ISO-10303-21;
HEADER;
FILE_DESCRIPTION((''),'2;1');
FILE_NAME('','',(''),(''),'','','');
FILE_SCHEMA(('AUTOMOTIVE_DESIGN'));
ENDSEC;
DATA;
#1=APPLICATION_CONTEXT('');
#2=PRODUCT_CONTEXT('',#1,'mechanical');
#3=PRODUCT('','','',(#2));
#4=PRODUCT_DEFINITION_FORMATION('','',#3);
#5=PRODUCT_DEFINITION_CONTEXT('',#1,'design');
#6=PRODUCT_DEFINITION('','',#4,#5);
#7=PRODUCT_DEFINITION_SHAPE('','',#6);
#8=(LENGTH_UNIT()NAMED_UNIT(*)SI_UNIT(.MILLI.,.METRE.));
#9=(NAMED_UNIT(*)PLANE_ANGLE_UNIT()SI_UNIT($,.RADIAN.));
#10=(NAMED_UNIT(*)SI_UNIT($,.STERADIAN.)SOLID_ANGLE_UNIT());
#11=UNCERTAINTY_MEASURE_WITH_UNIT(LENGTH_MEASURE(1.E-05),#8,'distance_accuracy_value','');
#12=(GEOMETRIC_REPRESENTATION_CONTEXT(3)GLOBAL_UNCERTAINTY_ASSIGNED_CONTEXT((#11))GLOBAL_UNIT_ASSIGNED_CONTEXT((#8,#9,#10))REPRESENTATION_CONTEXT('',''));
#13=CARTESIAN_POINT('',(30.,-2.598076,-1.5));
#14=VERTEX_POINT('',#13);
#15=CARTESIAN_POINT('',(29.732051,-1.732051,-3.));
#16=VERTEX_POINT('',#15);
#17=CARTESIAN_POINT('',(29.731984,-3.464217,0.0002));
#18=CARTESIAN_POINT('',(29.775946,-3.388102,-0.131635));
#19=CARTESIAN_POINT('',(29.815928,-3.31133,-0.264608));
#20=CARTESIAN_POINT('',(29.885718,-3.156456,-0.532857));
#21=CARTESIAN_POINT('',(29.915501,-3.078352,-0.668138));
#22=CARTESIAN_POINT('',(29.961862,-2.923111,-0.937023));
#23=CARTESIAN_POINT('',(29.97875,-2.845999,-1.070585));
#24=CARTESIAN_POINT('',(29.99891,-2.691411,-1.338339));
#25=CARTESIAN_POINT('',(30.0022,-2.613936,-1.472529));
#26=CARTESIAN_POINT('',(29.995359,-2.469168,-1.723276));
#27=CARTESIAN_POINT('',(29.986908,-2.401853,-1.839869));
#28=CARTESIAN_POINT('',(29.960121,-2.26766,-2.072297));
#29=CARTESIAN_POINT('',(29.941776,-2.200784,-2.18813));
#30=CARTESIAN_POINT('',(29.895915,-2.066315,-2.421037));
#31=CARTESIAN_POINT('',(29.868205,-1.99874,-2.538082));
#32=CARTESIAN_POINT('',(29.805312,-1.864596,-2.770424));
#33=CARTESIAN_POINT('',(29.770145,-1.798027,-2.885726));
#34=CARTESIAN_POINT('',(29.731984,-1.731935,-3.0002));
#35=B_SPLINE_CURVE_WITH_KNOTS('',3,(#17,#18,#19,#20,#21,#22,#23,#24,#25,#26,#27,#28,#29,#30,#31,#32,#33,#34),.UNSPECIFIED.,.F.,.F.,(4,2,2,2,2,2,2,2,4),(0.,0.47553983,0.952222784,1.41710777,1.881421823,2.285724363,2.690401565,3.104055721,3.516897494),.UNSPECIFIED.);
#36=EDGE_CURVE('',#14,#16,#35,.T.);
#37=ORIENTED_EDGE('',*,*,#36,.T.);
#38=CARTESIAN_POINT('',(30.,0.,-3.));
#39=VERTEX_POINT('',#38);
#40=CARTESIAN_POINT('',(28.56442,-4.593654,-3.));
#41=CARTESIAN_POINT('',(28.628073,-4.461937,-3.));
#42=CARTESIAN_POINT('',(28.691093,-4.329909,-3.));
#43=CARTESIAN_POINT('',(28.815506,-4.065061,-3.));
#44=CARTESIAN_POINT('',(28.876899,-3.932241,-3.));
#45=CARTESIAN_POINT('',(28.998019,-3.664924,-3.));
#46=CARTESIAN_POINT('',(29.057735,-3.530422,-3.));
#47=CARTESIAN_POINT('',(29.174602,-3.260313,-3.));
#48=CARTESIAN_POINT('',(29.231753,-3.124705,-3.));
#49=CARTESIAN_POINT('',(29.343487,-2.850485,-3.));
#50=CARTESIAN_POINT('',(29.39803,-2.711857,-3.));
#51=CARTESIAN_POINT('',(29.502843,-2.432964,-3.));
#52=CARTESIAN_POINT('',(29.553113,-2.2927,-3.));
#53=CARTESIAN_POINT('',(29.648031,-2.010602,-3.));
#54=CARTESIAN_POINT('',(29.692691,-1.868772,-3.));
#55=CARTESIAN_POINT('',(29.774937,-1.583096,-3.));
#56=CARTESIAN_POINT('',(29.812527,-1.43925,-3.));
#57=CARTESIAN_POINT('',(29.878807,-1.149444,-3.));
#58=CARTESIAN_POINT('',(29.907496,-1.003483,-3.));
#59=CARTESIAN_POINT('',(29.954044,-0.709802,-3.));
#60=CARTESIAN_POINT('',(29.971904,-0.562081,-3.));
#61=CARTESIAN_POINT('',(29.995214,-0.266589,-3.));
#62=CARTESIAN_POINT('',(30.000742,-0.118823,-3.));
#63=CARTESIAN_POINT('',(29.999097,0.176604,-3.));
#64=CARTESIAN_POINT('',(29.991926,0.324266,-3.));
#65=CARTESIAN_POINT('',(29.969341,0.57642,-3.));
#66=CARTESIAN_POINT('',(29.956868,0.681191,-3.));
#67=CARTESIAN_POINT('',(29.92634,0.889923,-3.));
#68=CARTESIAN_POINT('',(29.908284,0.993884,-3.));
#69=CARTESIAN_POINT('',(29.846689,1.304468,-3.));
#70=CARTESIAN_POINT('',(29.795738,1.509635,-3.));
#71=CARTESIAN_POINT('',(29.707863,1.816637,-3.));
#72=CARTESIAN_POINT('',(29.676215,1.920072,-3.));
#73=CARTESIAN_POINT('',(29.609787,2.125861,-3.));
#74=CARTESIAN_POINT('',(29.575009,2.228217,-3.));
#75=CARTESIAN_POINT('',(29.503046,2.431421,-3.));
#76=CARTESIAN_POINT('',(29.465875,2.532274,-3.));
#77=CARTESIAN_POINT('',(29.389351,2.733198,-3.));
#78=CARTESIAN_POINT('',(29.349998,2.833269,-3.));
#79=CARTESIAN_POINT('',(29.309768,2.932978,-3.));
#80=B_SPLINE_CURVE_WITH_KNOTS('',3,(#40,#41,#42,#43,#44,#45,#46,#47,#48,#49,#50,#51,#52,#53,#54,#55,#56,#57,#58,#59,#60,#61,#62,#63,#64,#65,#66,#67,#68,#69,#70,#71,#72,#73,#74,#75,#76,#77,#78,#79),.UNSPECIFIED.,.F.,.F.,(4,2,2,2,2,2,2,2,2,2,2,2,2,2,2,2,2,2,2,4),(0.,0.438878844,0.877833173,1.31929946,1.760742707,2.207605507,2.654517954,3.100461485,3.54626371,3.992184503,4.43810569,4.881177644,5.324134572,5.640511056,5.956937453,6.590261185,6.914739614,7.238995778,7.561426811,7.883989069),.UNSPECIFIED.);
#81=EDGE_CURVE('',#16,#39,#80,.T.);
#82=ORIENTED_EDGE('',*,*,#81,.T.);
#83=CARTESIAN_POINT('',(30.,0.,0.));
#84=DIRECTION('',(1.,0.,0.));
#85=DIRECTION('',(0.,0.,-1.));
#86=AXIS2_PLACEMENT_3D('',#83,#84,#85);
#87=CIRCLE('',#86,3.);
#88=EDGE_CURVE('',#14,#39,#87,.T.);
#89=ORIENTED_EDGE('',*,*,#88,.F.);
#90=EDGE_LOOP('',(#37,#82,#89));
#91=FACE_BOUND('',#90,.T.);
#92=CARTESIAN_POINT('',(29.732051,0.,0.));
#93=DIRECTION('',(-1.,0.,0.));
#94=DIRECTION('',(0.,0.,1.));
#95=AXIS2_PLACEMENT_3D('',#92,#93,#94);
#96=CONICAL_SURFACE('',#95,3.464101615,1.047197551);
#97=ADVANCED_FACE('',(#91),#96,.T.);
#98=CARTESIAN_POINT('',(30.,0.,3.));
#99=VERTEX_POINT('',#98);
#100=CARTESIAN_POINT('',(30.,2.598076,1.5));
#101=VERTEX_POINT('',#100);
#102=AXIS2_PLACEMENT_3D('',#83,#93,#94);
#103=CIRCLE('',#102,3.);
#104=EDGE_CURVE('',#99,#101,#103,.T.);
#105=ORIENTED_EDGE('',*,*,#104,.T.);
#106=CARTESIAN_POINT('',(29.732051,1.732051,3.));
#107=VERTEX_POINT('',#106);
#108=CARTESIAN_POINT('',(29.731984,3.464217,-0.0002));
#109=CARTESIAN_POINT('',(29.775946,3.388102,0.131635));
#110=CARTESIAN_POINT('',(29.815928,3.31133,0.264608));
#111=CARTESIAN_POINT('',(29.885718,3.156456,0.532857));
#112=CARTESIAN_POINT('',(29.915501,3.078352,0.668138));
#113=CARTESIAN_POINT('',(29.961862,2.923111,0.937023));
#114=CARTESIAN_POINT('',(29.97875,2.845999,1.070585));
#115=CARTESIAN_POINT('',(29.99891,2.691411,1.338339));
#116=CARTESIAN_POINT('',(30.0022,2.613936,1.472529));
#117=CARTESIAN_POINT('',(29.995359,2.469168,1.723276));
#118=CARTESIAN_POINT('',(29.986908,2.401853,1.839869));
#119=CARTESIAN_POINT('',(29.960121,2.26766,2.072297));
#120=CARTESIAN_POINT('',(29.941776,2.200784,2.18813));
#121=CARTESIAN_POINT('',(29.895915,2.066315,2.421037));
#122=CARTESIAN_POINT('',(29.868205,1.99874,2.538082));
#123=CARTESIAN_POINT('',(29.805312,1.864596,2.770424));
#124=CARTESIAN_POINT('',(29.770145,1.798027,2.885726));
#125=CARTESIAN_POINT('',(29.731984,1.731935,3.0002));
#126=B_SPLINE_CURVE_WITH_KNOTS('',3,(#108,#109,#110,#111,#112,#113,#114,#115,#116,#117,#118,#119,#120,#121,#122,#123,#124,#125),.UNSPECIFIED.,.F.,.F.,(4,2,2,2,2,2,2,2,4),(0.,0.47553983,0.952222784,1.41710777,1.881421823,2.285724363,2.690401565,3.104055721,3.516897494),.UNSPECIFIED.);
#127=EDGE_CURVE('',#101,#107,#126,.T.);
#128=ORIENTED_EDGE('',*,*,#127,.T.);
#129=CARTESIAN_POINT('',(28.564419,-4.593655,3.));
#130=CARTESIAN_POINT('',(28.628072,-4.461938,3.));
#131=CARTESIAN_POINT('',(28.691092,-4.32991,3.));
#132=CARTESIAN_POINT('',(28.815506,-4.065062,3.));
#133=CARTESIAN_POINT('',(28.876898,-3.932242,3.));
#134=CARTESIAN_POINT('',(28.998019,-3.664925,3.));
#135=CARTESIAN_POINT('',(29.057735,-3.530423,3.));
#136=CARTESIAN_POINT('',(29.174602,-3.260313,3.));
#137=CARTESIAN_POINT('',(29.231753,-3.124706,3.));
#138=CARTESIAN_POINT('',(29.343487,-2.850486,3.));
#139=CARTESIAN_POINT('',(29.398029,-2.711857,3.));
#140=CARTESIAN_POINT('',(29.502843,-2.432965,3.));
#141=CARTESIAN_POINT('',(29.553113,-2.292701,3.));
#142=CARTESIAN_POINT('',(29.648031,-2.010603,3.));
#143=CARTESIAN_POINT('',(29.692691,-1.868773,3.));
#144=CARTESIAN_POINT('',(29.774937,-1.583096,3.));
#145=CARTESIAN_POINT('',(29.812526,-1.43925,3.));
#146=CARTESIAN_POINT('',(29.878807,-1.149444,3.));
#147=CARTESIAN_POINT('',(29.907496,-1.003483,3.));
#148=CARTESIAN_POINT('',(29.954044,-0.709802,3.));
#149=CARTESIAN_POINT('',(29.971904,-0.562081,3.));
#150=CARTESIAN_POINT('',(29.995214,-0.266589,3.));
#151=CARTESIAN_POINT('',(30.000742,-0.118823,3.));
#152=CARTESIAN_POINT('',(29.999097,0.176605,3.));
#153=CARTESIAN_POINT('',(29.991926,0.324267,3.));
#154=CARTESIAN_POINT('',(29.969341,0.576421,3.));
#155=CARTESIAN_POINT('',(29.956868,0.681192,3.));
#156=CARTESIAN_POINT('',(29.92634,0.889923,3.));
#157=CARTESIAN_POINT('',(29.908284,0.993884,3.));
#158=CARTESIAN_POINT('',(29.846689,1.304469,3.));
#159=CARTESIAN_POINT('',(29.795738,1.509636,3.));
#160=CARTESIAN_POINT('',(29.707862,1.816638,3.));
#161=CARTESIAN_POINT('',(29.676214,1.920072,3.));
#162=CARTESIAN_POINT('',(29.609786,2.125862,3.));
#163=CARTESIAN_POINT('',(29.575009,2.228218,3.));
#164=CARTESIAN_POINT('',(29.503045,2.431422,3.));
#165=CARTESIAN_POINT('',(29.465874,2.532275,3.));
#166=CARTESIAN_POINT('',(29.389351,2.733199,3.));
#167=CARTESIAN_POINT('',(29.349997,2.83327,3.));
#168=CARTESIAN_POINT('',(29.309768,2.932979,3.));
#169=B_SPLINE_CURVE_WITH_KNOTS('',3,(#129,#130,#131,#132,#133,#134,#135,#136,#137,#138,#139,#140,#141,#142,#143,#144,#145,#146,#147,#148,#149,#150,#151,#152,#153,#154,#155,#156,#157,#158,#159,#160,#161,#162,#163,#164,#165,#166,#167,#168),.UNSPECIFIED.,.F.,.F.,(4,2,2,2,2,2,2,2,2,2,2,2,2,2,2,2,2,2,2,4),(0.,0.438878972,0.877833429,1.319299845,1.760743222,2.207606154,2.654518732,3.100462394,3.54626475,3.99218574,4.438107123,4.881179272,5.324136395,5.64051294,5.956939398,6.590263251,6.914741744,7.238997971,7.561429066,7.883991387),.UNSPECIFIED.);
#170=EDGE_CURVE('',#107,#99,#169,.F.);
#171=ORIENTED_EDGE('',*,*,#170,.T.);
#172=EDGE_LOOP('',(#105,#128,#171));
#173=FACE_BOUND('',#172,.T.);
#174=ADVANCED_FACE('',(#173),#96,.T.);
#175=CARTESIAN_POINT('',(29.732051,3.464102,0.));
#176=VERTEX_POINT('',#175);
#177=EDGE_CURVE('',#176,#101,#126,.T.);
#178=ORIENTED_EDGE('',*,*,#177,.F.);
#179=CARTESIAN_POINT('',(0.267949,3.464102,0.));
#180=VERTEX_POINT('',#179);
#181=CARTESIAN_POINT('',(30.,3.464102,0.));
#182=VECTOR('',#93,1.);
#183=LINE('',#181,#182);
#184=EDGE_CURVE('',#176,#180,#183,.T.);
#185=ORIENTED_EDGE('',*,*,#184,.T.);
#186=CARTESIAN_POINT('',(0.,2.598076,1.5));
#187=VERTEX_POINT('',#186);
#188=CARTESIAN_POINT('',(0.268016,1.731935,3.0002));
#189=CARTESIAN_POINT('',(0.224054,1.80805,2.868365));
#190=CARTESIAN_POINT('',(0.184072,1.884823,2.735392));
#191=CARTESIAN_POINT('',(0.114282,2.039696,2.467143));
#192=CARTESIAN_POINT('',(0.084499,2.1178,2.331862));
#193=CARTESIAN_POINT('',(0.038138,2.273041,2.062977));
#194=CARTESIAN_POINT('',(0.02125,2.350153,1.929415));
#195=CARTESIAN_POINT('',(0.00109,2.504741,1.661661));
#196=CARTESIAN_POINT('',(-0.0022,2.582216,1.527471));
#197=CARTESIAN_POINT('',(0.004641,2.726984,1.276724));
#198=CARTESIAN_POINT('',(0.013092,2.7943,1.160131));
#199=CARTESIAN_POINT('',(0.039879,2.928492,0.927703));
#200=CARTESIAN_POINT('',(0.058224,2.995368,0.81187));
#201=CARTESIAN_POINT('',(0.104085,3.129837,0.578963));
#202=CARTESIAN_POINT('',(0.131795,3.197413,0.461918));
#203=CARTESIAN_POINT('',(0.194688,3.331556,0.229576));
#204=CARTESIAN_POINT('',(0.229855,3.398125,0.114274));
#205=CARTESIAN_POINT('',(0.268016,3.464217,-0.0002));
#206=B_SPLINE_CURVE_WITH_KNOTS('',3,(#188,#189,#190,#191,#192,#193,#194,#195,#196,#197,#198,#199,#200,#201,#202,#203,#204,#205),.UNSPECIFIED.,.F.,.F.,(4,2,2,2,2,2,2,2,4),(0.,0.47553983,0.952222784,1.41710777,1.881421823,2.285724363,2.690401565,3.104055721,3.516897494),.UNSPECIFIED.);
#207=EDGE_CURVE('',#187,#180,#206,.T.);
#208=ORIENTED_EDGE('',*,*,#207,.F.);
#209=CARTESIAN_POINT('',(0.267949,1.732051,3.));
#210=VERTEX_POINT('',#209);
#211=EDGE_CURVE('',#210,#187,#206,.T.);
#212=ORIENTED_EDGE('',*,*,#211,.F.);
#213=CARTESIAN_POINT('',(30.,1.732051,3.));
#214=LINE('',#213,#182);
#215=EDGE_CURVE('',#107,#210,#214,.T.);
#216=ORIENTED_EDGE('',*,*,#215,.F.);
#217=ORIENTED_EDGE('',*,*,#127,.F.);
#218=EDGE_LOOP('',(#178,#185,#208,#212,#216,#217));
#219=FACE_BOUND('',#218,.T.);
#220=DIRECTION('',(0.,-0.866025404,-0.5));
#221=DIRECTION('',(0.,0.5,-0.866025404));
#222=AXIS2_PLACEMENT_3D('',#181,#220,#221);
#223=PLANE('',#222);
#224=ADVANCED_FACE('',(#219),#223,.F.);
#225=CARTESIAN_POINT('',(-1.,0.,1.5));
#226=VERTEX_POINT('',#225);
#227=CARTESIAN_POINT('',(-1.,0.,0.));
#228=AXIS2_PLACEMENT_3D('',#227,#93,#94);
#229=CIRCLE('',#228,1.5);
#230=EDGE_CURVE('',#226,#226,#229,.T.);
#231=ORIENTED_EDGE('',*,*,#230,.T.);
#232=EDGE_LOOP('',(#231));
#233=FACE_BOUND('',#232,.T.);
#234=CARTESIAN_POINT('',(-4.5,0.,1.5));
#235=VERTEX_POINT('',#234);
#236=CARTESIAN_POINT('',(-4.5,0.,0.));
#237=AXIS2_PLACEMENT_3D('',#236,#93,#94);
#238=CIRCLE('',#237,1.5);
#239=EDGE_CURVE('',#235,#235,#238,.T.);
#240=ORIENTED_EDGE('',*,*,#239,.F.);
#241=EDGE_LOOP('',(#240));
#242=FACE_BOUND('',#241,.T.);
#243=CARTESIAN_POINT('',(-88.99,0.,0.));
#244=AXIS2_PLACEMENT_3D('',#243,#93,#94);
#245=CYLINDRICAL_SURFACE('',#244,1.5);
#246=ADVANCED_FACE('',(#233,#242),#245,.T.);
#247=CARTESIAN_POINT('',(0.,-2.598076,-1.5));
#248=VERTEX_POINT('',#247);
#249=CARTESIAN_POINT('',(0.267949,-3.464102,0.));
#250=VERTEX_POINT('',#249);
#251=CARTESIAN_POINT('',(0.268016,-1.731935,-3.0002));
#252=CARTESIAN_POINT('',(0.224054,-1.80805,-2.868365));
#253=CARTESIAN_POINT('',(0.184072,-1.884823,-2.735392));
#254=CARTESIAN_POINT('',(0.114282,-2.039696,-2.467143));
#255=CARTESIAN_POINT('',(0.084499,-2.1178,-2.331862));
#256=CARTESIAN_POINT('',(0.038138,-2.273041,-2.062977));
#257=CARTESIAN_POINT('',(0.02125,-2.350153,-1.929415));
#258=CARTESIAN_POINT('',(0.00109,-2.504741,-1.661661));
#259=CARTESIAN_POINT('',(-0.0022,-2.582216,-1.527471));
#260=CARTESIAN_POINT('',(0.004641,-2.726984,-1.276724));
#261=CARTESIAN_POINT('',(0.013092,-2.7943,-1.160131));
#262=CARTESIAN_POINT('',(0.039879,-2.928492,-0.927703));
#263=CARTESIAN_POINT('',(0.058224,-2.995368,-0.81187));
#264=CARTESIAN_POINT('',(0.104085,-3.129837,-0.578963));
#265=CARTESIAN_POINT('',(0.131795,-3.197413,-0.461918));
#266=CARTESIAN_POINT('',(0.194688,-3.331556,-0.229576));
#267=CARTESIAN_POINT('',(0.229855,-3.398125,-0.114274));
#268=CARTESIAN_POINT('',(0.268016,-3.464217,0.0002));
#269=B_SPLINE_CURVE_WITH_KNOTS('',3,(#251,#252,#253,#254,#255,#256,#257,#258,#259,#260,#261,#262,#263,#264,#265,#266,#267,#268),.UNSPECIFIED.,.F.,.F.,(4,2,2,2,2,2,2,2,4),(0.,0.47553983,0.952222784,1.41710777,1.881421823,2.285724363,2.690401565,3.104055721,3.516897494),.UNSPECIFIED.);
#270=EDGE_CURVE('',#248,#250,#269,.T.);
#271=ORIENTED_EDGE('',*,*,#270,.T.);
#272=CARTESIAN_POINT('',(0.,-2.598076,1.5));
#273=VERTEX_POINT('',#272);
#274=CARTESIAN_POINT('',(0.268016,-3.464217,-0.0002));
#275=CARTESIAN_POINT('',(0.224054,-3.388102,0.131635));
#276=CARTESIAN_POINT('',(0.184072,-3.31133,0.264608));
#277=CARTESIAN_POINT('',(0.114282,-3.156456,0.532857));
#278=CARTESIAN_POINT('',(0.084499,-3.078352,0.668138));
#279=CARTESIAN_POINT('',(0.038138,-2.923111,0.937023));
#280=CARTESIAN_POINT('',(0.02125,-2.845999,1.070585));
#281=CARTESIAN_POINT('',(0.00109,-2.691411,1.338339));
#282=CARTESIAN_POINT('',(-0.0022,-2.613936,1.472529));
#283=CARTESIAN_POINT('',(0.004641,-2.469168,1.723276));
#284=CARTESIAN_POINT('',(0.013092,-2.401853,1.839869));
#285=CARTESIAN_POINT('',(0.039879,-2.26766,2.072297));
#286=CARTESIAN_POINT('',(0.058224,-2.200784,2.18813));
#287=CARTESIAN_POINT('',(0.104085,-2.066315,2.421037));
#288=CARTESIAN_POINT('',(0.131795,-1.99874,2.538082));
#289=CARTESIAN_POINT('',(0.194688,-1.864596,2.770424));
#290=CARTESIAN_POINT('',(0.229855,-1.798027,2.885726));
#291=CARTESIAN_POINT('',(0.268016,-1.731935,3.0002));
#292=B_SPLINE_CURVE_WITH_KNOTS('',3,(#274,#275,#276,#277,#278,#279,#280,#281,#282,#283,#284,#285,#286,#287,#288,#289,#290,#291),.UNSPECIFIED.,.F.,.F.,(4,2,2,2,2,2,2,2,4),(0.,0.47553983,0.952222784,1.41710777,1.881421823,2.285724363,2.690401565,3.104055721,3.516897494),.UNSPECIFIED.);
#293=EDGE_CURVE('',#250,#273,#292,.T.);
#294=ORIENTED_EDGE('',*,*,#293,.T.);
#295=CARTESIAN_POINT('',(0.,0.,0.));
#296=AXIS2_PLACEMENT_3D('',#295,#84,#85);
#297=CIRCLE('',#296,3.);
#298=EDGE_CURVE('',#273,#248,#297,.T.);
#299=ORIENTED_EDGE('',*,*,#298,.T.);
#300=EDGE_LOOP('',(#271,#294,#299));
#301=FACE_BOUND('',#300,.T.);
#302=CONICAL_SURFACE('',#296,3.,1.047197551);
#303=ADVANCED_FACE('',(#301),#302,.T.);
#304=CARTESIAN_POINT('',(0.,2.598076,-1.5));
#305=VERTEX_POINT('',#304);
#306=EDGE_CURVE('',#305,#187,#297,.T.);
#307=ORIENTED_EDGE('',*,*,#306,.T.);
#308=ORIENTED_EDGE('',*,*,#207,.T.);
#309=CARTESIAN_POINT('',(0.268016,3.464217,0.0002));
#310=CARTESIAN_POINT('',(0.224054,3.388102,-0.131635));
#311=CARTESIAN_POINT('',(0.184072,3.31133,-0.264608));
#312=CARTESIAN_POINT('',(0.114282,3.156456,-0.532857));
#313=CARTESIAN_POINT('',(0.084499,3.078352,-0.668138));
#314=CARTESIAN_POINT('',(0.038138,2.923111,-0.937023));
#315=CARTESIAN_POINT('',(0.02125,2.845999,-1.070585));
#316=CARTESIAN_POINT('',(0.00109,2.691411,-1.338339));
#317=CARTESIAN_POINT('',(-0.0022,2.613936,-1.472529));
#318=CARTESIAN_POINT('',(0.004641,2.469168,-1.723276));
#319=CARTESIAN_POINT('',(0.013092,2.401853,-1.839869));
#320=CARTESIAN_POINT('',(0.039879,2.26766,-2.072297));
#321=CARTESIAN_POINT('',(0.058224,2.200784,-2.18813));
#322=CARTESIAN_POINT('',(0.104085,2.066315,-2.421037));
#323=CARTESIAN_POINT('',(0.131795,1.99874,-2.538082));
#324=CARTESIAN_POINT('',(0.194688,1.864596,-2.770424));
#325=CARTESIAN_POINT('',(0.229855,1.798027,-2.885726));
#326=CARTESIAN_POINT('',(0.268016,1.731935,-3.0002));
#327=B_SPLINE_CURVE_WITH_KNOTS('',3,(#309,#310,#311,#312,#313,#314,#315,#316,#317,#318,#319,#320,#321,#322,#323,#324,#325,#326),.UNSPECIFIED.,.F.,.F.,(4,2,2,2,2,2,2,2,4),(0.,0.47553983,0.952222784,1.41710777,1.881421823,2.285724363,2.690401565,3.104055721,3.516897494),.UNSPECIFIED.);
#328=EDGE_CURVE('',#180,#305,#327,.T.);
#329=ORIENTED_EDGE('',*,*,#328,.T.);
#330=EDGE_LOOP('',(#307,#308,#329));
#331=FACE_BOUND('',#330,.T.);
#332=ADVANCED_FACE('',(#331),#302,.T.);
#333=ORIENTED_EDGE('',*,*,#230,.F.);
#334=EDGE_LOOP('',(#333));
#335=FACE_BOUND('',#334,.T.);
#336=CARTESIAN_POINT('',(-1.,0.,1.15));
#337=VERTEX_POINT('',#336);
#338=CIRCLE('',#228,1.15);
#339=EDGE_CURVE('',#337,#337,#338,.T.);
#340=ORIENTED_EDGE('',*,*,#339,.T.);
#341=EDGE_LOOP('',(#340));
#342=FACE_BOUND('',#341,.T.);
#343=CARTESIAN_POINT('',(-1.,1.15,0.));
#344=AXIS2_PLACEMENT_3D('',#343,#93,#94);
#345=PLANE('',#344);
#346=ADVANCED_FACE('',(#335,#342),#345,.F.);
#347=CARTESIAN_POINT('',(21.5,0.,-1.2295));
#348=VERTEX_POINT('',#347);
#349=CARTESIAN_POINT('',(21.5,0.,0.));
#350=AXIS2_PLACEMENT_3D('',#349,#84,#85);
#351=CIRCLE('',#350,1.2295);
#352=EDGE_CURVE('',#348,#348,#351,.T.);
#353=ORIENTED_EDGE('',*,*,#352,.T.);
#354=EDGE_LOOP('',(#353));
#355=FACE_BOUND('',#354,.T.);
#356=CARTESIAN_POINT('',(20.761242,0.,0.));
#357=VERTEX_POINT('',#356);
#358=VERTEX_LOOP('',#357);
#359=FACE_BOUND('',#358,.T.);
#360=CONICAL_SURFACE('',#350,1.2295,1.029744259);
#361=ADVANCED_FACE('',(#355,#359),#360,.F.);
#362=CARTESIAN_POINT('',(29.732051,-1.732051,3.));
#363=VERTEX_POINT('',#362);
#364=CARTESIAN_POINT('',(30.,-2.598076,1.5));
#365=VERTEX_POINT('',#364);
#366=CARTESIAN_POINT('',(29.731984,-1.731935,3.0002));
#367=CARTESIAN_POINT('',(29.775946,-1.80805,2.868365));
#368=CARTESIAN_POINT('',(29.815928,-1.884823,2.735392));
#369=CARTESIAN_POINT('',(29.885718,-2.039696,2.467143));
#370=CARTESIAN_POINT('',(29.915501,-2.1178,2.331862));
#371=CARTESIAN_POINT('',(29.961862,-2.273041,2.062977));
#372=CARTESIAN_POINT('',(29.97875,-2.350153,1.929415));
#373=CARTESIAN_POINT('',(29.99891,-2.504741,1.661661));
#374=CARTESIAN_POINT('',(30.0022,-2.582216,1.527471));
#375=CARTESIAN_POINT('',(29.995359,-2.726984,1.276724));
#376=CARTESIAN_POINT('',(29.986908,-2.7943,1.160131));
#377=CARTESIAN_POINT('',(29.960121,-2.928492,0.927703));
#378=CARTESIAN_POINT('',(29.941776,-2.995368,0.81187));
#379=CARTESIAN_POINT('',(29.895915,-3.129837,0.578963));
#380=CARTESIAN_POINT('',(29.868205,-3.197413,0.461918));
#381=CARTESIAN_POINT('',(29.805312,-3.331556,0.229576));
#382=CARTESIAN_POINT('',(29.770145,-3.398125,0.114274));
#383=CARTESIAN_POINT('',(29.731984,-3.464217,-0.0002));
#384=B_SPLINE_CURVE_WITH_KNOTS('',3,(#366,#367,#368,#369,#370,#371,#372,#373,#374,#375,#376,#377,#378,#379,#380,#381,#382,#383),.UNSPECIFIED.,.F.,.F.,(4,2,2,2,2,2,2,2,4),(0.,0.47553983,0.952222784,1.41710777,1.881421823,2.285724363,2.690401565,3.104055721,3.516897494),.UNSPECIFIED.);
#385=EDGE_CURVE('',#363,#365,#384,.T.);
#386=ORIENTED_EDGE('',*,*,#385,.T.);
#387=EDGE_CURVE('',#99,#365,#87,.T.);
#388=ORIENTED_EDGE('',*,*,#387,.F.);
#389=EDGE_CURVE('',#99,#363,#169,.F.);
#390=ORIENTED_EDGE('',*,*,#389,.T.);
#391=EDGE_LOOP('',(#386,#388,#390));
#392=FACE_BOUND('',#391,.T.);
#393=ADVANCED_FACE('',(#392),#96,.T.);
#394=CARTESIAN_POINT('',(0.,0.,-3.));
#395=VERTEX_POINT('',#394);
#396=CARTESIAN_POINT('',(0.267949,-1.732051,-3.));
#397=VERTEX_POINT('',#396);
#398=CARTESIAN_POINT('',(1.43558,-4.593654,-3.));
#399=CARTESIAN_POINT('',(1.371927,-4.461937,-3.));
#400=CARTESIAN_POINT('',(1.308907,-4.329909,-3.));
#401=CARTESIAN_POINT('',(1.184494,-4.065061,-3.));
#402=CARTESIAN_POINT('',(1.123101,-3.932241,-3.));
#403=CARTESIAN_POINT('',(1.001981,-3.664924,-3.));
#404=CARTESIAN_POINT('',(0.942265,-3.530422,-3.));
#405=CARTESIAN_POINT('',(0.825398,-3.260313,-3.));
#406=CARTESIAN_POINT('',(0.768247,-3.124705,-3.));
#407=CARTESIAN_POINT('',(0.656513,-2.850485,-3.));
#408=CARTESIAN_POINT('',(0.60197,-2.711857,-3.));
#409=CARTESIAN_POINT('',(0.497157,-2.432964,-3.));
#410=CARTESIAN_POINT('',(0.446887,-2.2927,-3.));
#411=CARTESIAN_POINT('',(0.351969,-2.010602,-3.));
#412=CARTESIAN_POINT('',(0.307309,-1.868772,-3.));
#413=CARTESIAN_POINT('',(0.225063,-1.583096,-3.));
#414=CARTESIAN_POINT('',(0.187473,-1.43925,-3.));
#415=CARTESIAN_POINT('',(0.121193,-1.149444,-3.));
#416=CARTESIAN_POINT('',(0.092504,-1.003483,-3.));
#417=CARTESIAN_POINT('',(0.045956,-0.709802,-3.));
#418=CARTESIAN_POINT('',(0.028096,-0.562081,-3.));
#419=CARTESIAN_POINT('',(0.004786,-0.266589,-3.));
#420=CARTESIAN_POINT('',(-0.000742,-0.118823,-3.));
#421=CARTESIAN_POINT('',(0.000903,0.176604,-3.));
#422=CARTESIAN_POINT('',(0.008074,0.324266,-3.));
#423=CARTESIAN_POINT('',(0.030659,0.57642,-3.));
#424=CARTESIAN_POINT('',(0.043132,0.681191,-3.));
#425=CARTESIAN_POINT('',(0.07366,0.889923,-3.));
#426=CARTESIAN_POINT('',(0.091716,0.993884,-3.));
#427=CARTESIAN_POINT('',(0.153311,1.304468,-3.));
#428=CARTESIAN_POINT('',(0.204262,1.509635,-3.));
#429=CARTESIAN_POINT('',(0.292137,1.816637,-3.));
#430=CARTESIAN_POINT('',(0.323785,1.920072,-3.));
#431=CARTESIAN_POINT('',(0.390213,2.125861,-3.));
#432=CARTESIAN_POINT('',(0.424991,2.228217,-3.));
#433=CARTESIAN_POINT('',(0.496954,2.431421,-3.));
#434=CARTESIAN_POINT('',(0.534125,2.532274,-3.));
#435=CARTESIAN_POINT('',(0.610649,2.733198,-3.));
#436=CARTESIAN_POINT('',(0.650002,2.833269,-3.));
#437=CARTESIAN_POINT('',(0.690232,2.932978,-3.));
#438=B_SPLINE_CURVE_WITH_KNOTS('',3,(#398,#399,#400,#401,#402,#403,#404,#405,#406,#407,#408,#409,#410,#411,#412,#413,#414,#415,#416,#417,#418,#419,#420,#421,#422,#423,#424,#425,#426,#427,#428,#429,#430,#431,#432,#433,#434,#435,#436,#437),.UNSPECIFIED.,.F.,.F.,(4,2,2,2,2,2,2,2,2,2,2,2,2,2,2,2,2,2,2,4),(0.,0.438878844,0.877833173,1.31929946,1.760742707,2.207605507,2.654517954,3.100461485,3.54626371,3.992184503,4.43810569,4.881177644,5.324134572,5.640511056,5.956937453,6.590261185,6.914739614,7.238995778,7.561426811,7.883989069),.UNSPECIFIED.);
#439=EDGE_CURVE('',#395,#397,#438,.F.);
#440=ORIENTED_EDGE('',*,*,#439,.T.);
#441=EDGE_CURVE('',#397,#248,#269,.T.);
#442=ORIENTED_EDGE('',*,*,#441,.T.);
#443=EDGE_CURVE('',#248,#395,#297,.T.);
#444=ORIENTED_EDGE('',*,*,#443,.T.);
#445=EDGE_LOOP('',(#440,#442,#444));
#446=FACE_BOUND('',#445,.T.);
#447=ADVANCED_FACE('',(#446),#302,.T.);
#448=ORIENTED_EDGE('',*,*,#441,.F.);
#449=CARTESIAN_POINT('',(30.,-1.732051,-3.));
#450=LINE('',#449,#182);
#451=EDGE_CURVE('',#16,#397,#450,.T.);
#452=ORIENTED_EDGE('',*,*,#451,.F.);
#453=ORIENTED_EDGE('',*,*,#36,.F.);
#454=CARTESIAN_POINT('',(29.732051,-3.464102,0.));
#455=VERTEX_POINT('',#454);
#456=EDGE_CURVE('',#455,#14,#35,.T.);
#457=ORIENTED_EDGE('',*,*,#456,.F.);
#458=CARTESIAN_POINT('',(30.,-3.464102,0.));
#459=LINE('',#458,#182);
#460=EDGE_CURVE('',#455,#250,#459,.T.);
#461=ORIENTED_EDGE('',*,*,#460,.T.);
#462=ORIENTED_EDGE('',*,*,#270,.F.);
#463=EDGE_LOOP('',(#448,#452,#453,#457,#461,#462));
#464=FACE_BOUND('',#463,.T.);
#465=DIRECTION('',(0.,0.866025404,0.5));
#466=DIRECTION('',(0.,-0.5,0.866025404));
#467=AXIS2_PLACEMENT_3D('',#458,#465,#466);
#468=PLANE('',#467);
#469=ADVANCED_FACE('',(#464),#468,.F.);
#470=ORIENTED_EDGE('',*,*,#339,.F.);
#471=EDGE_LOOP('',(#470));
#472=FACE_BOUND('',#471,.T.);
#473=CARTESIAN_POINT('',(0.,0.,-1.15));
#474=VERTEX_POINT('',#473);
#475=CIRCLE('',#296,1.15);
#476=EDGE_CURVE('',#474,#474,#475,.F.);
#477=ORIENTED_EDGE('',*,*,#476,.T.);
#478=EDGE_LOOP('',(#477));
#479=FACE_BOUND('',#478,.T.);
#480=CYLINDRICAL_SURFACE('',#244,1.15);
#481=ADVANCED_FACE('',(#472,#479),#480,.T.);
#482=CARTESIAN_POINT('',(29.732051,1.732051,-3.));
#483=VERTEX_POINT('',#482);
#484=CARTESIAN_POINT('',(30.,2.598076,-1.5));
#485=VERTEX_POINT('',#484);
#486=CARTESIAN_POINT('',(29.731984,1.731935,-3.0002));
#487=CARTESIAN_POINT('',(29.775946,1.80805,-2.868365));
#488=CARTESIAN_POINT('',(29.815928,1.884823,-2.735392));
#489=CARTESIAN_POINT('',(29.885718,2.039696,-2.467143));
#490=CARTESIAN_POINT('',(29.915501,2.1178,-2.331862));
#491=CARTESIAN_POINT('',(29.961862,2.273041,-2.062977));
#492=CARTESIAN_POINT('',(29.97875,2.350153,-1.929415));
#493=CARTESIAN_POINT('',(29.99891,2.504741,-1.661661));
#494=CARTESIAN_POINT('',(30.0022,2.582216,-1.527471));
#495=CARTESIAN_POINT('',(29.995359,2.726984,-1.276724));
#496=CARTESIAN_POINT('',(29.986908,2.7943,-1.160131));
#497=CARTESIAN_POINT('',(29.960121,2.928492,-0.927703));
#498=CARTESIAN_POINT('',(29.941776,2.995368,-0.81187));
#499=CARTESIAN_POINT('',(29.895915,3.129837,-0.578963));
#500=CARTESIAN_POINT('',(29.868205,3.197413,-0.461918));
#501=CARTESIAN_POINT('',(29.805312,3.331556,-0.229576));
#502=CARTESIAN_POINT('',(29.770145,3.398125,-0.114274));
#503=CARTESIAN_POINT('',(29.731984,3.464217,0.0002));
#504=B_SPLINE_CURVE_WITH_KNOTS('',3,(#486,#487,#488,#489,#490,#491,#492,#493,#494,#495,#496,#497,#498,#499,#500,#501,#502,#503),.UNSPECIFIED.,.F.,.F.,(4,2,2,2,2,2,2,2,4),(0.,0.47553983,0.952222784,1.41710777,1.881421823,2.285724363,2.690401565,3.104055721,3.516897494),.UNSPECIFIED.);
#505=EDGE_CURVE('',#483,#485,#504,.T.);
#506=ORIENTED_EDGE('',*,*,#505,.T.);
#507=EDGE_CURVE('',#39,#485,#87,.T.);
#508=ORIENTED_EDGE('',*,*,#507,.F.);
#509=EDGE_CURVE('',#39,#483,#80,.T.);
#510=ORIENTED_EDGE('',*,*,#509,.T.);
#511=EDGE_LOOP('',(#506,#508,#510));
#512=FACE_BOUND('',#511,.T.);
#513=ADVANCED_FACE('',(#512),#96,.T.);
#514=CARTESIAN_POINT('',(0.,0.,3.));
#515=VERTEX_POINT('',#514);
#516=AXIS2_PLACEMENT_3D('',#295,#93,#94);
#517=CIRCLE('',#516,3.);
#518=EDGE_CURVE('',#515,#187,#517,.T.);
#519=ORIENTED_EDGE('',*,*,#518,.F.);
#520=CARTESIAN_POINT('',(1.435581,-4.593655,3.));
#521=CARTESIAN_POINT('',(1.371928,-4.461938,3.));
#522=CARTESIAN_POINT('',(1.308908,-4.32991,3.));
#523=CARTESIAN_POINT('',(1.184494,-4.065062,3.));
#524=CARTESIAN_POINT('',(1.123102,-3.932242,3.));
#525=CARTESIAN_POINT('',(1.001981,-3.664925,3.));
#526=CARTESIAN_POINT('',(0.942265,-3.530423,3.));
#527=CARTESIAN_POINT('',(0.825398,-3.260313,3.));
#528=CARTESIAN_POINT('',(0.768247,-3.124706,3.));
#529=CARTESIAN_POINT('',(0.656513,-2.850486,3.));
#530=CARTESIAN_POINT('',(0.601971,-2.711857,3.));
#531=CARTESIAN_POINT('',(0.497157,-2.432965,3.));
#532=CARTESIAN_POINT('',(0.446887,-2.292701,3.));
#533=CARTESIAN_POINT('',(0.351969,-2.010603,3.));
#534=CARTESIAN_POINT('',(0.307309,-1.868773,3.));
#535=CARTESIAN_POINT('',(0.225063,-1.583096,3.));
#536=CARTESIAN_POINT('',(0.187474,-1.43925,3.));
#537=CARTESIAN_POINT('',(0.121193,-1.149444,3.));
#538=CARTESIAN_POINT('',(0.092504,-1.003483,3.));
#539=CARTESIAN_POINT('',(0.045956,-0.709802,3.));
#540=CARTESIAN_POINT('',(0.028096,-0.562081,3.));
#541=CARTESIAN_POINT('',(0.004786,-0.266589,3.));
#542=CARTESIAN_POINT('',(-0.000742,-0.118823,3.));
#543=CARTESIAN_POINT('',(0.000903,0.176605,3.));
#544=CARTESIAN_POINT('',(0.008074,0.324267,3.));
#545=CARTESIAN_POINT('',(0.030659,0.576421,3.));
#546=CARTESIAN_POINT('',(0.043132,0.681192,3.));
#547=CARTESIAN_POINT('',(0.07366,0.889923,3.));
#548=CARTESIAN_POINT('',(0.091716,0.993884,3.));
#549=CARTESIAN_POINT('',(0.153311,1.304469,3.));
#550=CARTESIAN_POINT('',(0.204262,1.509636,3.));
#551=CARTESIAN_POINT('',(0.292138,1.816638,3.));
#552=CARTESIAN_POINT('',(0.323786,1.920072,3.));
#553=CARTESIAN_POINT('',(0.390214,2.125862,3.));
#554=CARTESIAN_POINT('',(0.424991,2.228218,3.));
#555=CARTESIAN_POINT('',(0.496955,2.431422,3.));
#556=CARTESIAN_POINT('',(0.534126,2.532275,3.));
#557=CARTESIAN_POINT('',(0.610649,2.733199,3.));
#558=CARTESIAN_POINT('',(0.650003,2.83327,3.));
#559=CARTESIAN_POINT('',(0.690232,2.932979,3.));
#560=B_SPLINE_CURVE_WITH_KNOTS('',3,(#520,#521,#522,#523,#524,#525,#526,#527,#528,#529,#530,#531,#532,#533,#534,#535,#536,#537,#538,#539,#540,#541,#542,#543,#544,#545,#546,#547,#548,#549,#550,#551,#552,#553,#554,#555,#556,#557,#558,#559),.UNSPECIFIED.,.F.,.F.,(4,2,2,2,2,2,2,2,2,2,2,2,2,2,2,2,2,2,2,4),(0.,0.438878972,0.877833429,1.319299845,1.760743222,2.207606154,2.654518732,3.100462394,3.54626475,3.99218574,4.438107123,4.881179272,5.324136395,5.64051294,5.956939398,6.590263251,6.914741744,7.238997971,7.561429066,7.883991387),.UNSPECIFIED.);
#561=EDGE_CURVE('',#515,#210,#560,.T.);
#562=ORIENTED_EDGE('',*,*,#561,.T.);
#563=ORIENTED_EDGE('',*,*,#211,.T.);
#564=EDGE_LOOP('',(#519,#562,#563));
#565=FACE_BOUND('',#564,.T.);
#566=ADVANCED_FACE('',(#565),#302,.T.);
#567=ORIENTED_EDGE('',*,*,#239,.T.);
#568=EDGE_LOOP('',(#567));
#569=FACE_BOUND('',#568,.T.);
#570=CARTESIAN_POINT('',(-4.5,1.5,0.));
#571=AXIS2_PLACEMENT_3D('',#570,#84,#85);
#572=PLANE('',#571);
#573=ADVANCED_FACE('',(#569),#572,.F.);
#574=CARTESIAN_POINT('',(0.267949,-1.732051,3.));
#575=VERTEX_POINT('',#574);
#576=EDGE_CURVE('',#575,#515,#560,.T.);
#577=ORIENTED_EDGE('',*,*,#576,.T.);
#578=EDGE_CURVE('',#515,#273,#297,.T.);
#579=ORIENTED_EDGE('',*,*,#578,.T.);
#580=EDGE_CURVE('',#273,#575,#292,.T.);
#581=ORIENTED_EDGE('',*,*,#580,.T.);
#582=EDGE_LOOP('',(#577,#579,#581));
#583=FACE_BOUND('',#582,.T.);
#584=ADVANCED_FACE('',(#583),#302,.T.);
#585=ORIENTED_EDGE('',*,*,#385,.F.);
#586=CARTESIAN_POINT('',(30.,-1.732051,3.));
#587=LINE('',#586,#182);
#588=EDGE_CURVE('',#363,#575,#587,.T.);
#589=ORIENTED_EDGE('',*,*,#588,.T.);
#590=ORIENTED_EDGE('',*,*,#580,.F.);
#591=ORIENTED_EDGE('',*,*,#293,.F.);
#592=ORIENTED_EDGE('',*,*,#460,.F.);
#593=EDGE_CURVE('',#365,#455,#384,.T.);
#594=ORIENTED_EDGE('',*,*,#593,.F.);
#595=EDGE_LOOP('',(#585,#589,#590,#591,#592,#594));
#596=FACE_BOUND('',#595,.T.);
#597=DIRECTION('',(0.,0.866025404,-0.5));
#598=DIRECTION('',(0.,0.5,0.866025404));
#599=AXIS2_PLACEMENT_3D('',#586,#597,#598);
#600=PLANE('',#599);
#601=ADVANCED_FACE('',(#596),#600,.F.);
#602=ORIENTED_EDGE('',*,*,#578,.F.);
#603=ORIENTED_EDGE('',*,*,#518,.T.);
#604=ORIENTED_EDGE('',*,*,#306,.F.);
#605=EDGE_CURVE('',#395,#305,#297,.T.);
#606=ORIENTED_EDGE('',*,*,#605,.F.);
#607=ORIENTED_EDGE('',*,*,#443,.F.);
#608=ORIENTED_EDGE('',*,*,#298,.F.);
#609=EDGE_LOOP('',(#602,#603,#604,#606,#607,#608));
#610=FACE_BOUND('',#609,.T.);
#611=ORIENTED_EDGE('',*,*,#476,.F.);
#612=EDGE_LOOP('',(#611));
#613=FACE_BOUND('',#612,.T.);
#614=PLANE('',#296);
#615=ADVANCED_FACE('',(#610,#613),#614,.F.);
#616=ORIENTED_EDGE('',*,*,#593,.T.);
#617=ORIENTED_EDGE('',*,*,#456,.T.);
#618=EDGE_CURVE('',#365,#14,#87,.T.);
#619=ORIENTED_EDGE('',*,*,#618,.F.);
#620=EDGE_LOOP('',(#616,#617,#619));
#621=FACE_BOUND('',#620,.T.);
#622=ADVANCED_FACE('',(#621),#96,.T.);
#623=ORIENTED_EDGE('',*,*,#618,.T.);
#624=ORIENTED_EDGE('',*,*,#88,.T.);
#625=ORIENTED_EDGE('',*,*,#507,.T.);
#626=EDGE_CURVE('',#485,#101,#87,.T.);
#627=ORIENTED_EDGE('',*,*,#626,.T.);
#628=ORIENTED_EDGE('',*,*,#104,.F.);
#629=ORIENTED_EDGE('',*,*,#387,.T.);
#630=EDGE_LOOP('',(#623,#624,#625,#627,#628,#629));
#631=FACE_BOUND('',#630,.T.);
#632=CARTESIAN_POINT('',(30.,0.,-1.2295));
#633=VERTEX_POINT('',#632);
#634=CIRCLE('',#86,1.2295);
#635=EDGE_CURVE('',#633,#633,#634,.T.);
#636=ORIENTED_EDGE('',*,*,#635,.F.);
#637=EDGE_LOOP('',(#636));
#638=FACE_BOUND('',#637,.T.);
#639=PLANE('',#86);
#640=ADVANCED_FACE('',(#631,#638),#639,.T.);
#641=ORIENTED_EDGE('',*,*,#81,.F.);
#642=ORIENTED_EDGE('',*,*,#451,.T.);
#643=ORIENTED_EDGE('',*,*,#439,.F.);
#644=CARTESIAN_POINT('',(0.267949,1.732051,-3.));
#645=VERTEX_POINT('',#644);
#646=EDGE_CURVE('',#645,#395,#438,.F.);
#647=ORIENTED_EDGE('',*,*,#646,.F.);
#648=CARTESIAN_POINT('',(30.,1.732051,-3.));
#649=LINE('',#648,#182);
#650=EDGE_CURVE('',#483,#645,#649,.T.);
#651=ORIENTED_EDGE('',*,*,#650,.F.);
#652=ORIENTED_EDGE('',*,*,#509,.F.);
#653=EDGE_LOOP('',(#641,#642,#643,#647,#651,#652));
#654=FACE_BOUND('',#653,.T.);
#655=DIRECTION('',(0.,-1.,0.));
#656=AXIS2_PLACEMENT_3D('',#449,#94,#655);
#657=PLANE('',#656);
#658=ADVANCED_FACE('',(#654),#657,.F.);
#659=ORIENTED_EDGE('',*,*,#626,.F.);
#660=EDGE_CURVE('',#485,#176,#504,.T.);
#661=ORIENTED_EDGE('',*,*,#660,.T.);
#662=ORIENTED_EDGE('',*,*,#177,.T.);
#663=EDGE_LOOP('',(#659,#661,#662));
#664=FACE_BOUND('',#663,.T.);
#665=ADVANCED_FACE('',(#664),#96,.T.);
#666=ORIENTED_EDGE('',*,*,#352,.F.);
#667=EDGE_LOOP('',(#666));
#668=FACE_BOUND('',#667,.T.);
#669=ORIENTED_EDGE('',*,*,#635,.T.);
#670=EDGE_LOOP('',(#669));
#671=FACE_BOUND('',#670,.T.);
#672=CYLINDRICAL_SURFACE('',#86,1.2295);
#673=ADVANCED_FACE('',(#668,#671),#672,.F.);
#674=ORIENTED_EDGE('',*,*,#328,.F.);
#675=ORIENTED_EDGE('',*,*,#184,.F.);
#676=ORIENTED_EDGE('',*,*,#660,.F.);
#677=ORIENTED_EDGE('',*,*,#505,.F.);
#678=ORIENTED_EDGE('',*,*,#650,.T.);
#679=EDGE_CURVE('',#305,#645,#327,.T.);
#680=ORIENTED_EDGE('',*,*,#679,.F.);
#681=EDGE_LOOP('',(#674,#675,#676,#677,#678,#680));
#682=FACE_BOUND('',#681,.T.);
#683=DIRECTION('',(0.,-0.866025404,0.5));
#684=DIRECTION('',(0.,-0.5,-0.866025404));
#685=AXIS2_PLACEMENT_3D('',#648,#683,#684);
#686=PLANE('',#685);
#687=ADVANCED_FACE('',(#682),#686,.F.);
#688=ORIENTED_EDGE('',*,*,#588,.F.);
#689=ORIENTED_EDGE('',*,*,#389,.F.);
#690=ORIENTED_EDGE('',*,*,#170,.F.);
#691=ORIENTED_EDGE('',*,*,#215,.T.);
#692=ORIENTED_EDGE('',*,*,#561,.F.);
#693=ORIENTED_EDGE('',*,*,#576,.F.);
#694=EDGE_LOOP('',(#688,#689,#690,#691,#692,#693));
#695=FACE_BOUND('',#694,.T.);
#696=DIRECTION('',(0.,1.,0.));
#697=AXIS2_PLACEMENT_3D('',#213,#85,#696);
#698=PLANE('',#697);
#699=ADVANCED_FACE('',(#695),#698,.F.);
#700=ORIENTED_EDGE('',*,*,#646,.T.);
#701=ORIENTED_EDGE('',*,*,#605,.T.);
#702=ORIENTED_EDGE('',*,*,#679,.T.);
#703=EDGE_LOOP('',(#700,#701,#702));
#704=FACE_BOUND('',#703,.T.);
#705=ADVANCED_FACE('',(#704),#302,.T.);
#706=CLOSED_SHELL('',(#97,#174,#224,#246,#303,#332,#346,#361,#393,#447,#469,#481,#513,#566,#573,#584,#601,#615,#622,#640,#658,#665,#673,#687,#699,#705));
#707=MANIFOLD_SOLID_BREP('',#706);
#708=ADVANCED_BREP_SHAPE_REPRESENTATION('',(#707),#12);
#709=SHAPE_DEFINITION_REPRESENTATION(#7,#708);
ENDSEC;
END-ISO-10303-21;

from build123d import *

# Parameters (mm, degrees)
BOSS_EXTRUDE1_DEPTH = 30
TAP1_D              = 2.459
TAP1_DEPTH          = 8.5
TAP1_TIP            = 0.738758131


with BuildPart() as part:
    # Sketch1 → Boss-Extrude1 (new body)
    with BuildSketch(Plane(origin=(0, 0, 0), x_dir=(0, 0, -1), z_dir=(1, 0, 0))):
        Polygon((3, 1.732050808), (0, 3.464101615), (-3, 1.732050808), (-3, -1.732050808), (0, -3.464101615), (3, -1.732050808), align=None)
    extrude(amount=BOSS_EXTRUDE1_DEPTH)

    # Sketch2 → Cut-Revolve1 (revolve, cut)
    with BuildSketch(Plane.XY):
        Polygon((0, 3.464101615), (0.267949192, 3.464101615), (0, 3), align=None)
        Polygon((29.732050808, 3.464101615), (30, 3), (30, 3.464101615), align=None)
    revolve(axis=Axis((-88.99, 0, 0), (1, 0, 0)), mode=Mode.SUBTRACT)

    # Tap1
    with Locations(Plane(origin=(30, -0.086368032, -2.129727113), x_dir=(0, 0, -1), z_dir=(1, 0, 0))):
        with Locations((-2.129727113, 0.086368032)):
            Hole(TAP1_D / 2, depth=TAP1_DEPTH)
            with Locations((0, 0, -(TAP1_DEPTH + TAP1_TIP / 2))):  # 118° drill point
                Cone(0, TAP1_D / 2, TAP1_TIP, mode=Mode.SUBTRACT)

    # Sketch5 → Revolve1 (revolve)
    with BuildSketch(Plane.XY):
        Polygon((0, 1.15), (-1, 1.15), (-1, 1.5), (-4.5, 1.5), (-4.5, 0), (0, 0), align=None)
    revolve(axis=Axis((-88.99, 0, 0), (1, 0, 0)))


solid = part.part
